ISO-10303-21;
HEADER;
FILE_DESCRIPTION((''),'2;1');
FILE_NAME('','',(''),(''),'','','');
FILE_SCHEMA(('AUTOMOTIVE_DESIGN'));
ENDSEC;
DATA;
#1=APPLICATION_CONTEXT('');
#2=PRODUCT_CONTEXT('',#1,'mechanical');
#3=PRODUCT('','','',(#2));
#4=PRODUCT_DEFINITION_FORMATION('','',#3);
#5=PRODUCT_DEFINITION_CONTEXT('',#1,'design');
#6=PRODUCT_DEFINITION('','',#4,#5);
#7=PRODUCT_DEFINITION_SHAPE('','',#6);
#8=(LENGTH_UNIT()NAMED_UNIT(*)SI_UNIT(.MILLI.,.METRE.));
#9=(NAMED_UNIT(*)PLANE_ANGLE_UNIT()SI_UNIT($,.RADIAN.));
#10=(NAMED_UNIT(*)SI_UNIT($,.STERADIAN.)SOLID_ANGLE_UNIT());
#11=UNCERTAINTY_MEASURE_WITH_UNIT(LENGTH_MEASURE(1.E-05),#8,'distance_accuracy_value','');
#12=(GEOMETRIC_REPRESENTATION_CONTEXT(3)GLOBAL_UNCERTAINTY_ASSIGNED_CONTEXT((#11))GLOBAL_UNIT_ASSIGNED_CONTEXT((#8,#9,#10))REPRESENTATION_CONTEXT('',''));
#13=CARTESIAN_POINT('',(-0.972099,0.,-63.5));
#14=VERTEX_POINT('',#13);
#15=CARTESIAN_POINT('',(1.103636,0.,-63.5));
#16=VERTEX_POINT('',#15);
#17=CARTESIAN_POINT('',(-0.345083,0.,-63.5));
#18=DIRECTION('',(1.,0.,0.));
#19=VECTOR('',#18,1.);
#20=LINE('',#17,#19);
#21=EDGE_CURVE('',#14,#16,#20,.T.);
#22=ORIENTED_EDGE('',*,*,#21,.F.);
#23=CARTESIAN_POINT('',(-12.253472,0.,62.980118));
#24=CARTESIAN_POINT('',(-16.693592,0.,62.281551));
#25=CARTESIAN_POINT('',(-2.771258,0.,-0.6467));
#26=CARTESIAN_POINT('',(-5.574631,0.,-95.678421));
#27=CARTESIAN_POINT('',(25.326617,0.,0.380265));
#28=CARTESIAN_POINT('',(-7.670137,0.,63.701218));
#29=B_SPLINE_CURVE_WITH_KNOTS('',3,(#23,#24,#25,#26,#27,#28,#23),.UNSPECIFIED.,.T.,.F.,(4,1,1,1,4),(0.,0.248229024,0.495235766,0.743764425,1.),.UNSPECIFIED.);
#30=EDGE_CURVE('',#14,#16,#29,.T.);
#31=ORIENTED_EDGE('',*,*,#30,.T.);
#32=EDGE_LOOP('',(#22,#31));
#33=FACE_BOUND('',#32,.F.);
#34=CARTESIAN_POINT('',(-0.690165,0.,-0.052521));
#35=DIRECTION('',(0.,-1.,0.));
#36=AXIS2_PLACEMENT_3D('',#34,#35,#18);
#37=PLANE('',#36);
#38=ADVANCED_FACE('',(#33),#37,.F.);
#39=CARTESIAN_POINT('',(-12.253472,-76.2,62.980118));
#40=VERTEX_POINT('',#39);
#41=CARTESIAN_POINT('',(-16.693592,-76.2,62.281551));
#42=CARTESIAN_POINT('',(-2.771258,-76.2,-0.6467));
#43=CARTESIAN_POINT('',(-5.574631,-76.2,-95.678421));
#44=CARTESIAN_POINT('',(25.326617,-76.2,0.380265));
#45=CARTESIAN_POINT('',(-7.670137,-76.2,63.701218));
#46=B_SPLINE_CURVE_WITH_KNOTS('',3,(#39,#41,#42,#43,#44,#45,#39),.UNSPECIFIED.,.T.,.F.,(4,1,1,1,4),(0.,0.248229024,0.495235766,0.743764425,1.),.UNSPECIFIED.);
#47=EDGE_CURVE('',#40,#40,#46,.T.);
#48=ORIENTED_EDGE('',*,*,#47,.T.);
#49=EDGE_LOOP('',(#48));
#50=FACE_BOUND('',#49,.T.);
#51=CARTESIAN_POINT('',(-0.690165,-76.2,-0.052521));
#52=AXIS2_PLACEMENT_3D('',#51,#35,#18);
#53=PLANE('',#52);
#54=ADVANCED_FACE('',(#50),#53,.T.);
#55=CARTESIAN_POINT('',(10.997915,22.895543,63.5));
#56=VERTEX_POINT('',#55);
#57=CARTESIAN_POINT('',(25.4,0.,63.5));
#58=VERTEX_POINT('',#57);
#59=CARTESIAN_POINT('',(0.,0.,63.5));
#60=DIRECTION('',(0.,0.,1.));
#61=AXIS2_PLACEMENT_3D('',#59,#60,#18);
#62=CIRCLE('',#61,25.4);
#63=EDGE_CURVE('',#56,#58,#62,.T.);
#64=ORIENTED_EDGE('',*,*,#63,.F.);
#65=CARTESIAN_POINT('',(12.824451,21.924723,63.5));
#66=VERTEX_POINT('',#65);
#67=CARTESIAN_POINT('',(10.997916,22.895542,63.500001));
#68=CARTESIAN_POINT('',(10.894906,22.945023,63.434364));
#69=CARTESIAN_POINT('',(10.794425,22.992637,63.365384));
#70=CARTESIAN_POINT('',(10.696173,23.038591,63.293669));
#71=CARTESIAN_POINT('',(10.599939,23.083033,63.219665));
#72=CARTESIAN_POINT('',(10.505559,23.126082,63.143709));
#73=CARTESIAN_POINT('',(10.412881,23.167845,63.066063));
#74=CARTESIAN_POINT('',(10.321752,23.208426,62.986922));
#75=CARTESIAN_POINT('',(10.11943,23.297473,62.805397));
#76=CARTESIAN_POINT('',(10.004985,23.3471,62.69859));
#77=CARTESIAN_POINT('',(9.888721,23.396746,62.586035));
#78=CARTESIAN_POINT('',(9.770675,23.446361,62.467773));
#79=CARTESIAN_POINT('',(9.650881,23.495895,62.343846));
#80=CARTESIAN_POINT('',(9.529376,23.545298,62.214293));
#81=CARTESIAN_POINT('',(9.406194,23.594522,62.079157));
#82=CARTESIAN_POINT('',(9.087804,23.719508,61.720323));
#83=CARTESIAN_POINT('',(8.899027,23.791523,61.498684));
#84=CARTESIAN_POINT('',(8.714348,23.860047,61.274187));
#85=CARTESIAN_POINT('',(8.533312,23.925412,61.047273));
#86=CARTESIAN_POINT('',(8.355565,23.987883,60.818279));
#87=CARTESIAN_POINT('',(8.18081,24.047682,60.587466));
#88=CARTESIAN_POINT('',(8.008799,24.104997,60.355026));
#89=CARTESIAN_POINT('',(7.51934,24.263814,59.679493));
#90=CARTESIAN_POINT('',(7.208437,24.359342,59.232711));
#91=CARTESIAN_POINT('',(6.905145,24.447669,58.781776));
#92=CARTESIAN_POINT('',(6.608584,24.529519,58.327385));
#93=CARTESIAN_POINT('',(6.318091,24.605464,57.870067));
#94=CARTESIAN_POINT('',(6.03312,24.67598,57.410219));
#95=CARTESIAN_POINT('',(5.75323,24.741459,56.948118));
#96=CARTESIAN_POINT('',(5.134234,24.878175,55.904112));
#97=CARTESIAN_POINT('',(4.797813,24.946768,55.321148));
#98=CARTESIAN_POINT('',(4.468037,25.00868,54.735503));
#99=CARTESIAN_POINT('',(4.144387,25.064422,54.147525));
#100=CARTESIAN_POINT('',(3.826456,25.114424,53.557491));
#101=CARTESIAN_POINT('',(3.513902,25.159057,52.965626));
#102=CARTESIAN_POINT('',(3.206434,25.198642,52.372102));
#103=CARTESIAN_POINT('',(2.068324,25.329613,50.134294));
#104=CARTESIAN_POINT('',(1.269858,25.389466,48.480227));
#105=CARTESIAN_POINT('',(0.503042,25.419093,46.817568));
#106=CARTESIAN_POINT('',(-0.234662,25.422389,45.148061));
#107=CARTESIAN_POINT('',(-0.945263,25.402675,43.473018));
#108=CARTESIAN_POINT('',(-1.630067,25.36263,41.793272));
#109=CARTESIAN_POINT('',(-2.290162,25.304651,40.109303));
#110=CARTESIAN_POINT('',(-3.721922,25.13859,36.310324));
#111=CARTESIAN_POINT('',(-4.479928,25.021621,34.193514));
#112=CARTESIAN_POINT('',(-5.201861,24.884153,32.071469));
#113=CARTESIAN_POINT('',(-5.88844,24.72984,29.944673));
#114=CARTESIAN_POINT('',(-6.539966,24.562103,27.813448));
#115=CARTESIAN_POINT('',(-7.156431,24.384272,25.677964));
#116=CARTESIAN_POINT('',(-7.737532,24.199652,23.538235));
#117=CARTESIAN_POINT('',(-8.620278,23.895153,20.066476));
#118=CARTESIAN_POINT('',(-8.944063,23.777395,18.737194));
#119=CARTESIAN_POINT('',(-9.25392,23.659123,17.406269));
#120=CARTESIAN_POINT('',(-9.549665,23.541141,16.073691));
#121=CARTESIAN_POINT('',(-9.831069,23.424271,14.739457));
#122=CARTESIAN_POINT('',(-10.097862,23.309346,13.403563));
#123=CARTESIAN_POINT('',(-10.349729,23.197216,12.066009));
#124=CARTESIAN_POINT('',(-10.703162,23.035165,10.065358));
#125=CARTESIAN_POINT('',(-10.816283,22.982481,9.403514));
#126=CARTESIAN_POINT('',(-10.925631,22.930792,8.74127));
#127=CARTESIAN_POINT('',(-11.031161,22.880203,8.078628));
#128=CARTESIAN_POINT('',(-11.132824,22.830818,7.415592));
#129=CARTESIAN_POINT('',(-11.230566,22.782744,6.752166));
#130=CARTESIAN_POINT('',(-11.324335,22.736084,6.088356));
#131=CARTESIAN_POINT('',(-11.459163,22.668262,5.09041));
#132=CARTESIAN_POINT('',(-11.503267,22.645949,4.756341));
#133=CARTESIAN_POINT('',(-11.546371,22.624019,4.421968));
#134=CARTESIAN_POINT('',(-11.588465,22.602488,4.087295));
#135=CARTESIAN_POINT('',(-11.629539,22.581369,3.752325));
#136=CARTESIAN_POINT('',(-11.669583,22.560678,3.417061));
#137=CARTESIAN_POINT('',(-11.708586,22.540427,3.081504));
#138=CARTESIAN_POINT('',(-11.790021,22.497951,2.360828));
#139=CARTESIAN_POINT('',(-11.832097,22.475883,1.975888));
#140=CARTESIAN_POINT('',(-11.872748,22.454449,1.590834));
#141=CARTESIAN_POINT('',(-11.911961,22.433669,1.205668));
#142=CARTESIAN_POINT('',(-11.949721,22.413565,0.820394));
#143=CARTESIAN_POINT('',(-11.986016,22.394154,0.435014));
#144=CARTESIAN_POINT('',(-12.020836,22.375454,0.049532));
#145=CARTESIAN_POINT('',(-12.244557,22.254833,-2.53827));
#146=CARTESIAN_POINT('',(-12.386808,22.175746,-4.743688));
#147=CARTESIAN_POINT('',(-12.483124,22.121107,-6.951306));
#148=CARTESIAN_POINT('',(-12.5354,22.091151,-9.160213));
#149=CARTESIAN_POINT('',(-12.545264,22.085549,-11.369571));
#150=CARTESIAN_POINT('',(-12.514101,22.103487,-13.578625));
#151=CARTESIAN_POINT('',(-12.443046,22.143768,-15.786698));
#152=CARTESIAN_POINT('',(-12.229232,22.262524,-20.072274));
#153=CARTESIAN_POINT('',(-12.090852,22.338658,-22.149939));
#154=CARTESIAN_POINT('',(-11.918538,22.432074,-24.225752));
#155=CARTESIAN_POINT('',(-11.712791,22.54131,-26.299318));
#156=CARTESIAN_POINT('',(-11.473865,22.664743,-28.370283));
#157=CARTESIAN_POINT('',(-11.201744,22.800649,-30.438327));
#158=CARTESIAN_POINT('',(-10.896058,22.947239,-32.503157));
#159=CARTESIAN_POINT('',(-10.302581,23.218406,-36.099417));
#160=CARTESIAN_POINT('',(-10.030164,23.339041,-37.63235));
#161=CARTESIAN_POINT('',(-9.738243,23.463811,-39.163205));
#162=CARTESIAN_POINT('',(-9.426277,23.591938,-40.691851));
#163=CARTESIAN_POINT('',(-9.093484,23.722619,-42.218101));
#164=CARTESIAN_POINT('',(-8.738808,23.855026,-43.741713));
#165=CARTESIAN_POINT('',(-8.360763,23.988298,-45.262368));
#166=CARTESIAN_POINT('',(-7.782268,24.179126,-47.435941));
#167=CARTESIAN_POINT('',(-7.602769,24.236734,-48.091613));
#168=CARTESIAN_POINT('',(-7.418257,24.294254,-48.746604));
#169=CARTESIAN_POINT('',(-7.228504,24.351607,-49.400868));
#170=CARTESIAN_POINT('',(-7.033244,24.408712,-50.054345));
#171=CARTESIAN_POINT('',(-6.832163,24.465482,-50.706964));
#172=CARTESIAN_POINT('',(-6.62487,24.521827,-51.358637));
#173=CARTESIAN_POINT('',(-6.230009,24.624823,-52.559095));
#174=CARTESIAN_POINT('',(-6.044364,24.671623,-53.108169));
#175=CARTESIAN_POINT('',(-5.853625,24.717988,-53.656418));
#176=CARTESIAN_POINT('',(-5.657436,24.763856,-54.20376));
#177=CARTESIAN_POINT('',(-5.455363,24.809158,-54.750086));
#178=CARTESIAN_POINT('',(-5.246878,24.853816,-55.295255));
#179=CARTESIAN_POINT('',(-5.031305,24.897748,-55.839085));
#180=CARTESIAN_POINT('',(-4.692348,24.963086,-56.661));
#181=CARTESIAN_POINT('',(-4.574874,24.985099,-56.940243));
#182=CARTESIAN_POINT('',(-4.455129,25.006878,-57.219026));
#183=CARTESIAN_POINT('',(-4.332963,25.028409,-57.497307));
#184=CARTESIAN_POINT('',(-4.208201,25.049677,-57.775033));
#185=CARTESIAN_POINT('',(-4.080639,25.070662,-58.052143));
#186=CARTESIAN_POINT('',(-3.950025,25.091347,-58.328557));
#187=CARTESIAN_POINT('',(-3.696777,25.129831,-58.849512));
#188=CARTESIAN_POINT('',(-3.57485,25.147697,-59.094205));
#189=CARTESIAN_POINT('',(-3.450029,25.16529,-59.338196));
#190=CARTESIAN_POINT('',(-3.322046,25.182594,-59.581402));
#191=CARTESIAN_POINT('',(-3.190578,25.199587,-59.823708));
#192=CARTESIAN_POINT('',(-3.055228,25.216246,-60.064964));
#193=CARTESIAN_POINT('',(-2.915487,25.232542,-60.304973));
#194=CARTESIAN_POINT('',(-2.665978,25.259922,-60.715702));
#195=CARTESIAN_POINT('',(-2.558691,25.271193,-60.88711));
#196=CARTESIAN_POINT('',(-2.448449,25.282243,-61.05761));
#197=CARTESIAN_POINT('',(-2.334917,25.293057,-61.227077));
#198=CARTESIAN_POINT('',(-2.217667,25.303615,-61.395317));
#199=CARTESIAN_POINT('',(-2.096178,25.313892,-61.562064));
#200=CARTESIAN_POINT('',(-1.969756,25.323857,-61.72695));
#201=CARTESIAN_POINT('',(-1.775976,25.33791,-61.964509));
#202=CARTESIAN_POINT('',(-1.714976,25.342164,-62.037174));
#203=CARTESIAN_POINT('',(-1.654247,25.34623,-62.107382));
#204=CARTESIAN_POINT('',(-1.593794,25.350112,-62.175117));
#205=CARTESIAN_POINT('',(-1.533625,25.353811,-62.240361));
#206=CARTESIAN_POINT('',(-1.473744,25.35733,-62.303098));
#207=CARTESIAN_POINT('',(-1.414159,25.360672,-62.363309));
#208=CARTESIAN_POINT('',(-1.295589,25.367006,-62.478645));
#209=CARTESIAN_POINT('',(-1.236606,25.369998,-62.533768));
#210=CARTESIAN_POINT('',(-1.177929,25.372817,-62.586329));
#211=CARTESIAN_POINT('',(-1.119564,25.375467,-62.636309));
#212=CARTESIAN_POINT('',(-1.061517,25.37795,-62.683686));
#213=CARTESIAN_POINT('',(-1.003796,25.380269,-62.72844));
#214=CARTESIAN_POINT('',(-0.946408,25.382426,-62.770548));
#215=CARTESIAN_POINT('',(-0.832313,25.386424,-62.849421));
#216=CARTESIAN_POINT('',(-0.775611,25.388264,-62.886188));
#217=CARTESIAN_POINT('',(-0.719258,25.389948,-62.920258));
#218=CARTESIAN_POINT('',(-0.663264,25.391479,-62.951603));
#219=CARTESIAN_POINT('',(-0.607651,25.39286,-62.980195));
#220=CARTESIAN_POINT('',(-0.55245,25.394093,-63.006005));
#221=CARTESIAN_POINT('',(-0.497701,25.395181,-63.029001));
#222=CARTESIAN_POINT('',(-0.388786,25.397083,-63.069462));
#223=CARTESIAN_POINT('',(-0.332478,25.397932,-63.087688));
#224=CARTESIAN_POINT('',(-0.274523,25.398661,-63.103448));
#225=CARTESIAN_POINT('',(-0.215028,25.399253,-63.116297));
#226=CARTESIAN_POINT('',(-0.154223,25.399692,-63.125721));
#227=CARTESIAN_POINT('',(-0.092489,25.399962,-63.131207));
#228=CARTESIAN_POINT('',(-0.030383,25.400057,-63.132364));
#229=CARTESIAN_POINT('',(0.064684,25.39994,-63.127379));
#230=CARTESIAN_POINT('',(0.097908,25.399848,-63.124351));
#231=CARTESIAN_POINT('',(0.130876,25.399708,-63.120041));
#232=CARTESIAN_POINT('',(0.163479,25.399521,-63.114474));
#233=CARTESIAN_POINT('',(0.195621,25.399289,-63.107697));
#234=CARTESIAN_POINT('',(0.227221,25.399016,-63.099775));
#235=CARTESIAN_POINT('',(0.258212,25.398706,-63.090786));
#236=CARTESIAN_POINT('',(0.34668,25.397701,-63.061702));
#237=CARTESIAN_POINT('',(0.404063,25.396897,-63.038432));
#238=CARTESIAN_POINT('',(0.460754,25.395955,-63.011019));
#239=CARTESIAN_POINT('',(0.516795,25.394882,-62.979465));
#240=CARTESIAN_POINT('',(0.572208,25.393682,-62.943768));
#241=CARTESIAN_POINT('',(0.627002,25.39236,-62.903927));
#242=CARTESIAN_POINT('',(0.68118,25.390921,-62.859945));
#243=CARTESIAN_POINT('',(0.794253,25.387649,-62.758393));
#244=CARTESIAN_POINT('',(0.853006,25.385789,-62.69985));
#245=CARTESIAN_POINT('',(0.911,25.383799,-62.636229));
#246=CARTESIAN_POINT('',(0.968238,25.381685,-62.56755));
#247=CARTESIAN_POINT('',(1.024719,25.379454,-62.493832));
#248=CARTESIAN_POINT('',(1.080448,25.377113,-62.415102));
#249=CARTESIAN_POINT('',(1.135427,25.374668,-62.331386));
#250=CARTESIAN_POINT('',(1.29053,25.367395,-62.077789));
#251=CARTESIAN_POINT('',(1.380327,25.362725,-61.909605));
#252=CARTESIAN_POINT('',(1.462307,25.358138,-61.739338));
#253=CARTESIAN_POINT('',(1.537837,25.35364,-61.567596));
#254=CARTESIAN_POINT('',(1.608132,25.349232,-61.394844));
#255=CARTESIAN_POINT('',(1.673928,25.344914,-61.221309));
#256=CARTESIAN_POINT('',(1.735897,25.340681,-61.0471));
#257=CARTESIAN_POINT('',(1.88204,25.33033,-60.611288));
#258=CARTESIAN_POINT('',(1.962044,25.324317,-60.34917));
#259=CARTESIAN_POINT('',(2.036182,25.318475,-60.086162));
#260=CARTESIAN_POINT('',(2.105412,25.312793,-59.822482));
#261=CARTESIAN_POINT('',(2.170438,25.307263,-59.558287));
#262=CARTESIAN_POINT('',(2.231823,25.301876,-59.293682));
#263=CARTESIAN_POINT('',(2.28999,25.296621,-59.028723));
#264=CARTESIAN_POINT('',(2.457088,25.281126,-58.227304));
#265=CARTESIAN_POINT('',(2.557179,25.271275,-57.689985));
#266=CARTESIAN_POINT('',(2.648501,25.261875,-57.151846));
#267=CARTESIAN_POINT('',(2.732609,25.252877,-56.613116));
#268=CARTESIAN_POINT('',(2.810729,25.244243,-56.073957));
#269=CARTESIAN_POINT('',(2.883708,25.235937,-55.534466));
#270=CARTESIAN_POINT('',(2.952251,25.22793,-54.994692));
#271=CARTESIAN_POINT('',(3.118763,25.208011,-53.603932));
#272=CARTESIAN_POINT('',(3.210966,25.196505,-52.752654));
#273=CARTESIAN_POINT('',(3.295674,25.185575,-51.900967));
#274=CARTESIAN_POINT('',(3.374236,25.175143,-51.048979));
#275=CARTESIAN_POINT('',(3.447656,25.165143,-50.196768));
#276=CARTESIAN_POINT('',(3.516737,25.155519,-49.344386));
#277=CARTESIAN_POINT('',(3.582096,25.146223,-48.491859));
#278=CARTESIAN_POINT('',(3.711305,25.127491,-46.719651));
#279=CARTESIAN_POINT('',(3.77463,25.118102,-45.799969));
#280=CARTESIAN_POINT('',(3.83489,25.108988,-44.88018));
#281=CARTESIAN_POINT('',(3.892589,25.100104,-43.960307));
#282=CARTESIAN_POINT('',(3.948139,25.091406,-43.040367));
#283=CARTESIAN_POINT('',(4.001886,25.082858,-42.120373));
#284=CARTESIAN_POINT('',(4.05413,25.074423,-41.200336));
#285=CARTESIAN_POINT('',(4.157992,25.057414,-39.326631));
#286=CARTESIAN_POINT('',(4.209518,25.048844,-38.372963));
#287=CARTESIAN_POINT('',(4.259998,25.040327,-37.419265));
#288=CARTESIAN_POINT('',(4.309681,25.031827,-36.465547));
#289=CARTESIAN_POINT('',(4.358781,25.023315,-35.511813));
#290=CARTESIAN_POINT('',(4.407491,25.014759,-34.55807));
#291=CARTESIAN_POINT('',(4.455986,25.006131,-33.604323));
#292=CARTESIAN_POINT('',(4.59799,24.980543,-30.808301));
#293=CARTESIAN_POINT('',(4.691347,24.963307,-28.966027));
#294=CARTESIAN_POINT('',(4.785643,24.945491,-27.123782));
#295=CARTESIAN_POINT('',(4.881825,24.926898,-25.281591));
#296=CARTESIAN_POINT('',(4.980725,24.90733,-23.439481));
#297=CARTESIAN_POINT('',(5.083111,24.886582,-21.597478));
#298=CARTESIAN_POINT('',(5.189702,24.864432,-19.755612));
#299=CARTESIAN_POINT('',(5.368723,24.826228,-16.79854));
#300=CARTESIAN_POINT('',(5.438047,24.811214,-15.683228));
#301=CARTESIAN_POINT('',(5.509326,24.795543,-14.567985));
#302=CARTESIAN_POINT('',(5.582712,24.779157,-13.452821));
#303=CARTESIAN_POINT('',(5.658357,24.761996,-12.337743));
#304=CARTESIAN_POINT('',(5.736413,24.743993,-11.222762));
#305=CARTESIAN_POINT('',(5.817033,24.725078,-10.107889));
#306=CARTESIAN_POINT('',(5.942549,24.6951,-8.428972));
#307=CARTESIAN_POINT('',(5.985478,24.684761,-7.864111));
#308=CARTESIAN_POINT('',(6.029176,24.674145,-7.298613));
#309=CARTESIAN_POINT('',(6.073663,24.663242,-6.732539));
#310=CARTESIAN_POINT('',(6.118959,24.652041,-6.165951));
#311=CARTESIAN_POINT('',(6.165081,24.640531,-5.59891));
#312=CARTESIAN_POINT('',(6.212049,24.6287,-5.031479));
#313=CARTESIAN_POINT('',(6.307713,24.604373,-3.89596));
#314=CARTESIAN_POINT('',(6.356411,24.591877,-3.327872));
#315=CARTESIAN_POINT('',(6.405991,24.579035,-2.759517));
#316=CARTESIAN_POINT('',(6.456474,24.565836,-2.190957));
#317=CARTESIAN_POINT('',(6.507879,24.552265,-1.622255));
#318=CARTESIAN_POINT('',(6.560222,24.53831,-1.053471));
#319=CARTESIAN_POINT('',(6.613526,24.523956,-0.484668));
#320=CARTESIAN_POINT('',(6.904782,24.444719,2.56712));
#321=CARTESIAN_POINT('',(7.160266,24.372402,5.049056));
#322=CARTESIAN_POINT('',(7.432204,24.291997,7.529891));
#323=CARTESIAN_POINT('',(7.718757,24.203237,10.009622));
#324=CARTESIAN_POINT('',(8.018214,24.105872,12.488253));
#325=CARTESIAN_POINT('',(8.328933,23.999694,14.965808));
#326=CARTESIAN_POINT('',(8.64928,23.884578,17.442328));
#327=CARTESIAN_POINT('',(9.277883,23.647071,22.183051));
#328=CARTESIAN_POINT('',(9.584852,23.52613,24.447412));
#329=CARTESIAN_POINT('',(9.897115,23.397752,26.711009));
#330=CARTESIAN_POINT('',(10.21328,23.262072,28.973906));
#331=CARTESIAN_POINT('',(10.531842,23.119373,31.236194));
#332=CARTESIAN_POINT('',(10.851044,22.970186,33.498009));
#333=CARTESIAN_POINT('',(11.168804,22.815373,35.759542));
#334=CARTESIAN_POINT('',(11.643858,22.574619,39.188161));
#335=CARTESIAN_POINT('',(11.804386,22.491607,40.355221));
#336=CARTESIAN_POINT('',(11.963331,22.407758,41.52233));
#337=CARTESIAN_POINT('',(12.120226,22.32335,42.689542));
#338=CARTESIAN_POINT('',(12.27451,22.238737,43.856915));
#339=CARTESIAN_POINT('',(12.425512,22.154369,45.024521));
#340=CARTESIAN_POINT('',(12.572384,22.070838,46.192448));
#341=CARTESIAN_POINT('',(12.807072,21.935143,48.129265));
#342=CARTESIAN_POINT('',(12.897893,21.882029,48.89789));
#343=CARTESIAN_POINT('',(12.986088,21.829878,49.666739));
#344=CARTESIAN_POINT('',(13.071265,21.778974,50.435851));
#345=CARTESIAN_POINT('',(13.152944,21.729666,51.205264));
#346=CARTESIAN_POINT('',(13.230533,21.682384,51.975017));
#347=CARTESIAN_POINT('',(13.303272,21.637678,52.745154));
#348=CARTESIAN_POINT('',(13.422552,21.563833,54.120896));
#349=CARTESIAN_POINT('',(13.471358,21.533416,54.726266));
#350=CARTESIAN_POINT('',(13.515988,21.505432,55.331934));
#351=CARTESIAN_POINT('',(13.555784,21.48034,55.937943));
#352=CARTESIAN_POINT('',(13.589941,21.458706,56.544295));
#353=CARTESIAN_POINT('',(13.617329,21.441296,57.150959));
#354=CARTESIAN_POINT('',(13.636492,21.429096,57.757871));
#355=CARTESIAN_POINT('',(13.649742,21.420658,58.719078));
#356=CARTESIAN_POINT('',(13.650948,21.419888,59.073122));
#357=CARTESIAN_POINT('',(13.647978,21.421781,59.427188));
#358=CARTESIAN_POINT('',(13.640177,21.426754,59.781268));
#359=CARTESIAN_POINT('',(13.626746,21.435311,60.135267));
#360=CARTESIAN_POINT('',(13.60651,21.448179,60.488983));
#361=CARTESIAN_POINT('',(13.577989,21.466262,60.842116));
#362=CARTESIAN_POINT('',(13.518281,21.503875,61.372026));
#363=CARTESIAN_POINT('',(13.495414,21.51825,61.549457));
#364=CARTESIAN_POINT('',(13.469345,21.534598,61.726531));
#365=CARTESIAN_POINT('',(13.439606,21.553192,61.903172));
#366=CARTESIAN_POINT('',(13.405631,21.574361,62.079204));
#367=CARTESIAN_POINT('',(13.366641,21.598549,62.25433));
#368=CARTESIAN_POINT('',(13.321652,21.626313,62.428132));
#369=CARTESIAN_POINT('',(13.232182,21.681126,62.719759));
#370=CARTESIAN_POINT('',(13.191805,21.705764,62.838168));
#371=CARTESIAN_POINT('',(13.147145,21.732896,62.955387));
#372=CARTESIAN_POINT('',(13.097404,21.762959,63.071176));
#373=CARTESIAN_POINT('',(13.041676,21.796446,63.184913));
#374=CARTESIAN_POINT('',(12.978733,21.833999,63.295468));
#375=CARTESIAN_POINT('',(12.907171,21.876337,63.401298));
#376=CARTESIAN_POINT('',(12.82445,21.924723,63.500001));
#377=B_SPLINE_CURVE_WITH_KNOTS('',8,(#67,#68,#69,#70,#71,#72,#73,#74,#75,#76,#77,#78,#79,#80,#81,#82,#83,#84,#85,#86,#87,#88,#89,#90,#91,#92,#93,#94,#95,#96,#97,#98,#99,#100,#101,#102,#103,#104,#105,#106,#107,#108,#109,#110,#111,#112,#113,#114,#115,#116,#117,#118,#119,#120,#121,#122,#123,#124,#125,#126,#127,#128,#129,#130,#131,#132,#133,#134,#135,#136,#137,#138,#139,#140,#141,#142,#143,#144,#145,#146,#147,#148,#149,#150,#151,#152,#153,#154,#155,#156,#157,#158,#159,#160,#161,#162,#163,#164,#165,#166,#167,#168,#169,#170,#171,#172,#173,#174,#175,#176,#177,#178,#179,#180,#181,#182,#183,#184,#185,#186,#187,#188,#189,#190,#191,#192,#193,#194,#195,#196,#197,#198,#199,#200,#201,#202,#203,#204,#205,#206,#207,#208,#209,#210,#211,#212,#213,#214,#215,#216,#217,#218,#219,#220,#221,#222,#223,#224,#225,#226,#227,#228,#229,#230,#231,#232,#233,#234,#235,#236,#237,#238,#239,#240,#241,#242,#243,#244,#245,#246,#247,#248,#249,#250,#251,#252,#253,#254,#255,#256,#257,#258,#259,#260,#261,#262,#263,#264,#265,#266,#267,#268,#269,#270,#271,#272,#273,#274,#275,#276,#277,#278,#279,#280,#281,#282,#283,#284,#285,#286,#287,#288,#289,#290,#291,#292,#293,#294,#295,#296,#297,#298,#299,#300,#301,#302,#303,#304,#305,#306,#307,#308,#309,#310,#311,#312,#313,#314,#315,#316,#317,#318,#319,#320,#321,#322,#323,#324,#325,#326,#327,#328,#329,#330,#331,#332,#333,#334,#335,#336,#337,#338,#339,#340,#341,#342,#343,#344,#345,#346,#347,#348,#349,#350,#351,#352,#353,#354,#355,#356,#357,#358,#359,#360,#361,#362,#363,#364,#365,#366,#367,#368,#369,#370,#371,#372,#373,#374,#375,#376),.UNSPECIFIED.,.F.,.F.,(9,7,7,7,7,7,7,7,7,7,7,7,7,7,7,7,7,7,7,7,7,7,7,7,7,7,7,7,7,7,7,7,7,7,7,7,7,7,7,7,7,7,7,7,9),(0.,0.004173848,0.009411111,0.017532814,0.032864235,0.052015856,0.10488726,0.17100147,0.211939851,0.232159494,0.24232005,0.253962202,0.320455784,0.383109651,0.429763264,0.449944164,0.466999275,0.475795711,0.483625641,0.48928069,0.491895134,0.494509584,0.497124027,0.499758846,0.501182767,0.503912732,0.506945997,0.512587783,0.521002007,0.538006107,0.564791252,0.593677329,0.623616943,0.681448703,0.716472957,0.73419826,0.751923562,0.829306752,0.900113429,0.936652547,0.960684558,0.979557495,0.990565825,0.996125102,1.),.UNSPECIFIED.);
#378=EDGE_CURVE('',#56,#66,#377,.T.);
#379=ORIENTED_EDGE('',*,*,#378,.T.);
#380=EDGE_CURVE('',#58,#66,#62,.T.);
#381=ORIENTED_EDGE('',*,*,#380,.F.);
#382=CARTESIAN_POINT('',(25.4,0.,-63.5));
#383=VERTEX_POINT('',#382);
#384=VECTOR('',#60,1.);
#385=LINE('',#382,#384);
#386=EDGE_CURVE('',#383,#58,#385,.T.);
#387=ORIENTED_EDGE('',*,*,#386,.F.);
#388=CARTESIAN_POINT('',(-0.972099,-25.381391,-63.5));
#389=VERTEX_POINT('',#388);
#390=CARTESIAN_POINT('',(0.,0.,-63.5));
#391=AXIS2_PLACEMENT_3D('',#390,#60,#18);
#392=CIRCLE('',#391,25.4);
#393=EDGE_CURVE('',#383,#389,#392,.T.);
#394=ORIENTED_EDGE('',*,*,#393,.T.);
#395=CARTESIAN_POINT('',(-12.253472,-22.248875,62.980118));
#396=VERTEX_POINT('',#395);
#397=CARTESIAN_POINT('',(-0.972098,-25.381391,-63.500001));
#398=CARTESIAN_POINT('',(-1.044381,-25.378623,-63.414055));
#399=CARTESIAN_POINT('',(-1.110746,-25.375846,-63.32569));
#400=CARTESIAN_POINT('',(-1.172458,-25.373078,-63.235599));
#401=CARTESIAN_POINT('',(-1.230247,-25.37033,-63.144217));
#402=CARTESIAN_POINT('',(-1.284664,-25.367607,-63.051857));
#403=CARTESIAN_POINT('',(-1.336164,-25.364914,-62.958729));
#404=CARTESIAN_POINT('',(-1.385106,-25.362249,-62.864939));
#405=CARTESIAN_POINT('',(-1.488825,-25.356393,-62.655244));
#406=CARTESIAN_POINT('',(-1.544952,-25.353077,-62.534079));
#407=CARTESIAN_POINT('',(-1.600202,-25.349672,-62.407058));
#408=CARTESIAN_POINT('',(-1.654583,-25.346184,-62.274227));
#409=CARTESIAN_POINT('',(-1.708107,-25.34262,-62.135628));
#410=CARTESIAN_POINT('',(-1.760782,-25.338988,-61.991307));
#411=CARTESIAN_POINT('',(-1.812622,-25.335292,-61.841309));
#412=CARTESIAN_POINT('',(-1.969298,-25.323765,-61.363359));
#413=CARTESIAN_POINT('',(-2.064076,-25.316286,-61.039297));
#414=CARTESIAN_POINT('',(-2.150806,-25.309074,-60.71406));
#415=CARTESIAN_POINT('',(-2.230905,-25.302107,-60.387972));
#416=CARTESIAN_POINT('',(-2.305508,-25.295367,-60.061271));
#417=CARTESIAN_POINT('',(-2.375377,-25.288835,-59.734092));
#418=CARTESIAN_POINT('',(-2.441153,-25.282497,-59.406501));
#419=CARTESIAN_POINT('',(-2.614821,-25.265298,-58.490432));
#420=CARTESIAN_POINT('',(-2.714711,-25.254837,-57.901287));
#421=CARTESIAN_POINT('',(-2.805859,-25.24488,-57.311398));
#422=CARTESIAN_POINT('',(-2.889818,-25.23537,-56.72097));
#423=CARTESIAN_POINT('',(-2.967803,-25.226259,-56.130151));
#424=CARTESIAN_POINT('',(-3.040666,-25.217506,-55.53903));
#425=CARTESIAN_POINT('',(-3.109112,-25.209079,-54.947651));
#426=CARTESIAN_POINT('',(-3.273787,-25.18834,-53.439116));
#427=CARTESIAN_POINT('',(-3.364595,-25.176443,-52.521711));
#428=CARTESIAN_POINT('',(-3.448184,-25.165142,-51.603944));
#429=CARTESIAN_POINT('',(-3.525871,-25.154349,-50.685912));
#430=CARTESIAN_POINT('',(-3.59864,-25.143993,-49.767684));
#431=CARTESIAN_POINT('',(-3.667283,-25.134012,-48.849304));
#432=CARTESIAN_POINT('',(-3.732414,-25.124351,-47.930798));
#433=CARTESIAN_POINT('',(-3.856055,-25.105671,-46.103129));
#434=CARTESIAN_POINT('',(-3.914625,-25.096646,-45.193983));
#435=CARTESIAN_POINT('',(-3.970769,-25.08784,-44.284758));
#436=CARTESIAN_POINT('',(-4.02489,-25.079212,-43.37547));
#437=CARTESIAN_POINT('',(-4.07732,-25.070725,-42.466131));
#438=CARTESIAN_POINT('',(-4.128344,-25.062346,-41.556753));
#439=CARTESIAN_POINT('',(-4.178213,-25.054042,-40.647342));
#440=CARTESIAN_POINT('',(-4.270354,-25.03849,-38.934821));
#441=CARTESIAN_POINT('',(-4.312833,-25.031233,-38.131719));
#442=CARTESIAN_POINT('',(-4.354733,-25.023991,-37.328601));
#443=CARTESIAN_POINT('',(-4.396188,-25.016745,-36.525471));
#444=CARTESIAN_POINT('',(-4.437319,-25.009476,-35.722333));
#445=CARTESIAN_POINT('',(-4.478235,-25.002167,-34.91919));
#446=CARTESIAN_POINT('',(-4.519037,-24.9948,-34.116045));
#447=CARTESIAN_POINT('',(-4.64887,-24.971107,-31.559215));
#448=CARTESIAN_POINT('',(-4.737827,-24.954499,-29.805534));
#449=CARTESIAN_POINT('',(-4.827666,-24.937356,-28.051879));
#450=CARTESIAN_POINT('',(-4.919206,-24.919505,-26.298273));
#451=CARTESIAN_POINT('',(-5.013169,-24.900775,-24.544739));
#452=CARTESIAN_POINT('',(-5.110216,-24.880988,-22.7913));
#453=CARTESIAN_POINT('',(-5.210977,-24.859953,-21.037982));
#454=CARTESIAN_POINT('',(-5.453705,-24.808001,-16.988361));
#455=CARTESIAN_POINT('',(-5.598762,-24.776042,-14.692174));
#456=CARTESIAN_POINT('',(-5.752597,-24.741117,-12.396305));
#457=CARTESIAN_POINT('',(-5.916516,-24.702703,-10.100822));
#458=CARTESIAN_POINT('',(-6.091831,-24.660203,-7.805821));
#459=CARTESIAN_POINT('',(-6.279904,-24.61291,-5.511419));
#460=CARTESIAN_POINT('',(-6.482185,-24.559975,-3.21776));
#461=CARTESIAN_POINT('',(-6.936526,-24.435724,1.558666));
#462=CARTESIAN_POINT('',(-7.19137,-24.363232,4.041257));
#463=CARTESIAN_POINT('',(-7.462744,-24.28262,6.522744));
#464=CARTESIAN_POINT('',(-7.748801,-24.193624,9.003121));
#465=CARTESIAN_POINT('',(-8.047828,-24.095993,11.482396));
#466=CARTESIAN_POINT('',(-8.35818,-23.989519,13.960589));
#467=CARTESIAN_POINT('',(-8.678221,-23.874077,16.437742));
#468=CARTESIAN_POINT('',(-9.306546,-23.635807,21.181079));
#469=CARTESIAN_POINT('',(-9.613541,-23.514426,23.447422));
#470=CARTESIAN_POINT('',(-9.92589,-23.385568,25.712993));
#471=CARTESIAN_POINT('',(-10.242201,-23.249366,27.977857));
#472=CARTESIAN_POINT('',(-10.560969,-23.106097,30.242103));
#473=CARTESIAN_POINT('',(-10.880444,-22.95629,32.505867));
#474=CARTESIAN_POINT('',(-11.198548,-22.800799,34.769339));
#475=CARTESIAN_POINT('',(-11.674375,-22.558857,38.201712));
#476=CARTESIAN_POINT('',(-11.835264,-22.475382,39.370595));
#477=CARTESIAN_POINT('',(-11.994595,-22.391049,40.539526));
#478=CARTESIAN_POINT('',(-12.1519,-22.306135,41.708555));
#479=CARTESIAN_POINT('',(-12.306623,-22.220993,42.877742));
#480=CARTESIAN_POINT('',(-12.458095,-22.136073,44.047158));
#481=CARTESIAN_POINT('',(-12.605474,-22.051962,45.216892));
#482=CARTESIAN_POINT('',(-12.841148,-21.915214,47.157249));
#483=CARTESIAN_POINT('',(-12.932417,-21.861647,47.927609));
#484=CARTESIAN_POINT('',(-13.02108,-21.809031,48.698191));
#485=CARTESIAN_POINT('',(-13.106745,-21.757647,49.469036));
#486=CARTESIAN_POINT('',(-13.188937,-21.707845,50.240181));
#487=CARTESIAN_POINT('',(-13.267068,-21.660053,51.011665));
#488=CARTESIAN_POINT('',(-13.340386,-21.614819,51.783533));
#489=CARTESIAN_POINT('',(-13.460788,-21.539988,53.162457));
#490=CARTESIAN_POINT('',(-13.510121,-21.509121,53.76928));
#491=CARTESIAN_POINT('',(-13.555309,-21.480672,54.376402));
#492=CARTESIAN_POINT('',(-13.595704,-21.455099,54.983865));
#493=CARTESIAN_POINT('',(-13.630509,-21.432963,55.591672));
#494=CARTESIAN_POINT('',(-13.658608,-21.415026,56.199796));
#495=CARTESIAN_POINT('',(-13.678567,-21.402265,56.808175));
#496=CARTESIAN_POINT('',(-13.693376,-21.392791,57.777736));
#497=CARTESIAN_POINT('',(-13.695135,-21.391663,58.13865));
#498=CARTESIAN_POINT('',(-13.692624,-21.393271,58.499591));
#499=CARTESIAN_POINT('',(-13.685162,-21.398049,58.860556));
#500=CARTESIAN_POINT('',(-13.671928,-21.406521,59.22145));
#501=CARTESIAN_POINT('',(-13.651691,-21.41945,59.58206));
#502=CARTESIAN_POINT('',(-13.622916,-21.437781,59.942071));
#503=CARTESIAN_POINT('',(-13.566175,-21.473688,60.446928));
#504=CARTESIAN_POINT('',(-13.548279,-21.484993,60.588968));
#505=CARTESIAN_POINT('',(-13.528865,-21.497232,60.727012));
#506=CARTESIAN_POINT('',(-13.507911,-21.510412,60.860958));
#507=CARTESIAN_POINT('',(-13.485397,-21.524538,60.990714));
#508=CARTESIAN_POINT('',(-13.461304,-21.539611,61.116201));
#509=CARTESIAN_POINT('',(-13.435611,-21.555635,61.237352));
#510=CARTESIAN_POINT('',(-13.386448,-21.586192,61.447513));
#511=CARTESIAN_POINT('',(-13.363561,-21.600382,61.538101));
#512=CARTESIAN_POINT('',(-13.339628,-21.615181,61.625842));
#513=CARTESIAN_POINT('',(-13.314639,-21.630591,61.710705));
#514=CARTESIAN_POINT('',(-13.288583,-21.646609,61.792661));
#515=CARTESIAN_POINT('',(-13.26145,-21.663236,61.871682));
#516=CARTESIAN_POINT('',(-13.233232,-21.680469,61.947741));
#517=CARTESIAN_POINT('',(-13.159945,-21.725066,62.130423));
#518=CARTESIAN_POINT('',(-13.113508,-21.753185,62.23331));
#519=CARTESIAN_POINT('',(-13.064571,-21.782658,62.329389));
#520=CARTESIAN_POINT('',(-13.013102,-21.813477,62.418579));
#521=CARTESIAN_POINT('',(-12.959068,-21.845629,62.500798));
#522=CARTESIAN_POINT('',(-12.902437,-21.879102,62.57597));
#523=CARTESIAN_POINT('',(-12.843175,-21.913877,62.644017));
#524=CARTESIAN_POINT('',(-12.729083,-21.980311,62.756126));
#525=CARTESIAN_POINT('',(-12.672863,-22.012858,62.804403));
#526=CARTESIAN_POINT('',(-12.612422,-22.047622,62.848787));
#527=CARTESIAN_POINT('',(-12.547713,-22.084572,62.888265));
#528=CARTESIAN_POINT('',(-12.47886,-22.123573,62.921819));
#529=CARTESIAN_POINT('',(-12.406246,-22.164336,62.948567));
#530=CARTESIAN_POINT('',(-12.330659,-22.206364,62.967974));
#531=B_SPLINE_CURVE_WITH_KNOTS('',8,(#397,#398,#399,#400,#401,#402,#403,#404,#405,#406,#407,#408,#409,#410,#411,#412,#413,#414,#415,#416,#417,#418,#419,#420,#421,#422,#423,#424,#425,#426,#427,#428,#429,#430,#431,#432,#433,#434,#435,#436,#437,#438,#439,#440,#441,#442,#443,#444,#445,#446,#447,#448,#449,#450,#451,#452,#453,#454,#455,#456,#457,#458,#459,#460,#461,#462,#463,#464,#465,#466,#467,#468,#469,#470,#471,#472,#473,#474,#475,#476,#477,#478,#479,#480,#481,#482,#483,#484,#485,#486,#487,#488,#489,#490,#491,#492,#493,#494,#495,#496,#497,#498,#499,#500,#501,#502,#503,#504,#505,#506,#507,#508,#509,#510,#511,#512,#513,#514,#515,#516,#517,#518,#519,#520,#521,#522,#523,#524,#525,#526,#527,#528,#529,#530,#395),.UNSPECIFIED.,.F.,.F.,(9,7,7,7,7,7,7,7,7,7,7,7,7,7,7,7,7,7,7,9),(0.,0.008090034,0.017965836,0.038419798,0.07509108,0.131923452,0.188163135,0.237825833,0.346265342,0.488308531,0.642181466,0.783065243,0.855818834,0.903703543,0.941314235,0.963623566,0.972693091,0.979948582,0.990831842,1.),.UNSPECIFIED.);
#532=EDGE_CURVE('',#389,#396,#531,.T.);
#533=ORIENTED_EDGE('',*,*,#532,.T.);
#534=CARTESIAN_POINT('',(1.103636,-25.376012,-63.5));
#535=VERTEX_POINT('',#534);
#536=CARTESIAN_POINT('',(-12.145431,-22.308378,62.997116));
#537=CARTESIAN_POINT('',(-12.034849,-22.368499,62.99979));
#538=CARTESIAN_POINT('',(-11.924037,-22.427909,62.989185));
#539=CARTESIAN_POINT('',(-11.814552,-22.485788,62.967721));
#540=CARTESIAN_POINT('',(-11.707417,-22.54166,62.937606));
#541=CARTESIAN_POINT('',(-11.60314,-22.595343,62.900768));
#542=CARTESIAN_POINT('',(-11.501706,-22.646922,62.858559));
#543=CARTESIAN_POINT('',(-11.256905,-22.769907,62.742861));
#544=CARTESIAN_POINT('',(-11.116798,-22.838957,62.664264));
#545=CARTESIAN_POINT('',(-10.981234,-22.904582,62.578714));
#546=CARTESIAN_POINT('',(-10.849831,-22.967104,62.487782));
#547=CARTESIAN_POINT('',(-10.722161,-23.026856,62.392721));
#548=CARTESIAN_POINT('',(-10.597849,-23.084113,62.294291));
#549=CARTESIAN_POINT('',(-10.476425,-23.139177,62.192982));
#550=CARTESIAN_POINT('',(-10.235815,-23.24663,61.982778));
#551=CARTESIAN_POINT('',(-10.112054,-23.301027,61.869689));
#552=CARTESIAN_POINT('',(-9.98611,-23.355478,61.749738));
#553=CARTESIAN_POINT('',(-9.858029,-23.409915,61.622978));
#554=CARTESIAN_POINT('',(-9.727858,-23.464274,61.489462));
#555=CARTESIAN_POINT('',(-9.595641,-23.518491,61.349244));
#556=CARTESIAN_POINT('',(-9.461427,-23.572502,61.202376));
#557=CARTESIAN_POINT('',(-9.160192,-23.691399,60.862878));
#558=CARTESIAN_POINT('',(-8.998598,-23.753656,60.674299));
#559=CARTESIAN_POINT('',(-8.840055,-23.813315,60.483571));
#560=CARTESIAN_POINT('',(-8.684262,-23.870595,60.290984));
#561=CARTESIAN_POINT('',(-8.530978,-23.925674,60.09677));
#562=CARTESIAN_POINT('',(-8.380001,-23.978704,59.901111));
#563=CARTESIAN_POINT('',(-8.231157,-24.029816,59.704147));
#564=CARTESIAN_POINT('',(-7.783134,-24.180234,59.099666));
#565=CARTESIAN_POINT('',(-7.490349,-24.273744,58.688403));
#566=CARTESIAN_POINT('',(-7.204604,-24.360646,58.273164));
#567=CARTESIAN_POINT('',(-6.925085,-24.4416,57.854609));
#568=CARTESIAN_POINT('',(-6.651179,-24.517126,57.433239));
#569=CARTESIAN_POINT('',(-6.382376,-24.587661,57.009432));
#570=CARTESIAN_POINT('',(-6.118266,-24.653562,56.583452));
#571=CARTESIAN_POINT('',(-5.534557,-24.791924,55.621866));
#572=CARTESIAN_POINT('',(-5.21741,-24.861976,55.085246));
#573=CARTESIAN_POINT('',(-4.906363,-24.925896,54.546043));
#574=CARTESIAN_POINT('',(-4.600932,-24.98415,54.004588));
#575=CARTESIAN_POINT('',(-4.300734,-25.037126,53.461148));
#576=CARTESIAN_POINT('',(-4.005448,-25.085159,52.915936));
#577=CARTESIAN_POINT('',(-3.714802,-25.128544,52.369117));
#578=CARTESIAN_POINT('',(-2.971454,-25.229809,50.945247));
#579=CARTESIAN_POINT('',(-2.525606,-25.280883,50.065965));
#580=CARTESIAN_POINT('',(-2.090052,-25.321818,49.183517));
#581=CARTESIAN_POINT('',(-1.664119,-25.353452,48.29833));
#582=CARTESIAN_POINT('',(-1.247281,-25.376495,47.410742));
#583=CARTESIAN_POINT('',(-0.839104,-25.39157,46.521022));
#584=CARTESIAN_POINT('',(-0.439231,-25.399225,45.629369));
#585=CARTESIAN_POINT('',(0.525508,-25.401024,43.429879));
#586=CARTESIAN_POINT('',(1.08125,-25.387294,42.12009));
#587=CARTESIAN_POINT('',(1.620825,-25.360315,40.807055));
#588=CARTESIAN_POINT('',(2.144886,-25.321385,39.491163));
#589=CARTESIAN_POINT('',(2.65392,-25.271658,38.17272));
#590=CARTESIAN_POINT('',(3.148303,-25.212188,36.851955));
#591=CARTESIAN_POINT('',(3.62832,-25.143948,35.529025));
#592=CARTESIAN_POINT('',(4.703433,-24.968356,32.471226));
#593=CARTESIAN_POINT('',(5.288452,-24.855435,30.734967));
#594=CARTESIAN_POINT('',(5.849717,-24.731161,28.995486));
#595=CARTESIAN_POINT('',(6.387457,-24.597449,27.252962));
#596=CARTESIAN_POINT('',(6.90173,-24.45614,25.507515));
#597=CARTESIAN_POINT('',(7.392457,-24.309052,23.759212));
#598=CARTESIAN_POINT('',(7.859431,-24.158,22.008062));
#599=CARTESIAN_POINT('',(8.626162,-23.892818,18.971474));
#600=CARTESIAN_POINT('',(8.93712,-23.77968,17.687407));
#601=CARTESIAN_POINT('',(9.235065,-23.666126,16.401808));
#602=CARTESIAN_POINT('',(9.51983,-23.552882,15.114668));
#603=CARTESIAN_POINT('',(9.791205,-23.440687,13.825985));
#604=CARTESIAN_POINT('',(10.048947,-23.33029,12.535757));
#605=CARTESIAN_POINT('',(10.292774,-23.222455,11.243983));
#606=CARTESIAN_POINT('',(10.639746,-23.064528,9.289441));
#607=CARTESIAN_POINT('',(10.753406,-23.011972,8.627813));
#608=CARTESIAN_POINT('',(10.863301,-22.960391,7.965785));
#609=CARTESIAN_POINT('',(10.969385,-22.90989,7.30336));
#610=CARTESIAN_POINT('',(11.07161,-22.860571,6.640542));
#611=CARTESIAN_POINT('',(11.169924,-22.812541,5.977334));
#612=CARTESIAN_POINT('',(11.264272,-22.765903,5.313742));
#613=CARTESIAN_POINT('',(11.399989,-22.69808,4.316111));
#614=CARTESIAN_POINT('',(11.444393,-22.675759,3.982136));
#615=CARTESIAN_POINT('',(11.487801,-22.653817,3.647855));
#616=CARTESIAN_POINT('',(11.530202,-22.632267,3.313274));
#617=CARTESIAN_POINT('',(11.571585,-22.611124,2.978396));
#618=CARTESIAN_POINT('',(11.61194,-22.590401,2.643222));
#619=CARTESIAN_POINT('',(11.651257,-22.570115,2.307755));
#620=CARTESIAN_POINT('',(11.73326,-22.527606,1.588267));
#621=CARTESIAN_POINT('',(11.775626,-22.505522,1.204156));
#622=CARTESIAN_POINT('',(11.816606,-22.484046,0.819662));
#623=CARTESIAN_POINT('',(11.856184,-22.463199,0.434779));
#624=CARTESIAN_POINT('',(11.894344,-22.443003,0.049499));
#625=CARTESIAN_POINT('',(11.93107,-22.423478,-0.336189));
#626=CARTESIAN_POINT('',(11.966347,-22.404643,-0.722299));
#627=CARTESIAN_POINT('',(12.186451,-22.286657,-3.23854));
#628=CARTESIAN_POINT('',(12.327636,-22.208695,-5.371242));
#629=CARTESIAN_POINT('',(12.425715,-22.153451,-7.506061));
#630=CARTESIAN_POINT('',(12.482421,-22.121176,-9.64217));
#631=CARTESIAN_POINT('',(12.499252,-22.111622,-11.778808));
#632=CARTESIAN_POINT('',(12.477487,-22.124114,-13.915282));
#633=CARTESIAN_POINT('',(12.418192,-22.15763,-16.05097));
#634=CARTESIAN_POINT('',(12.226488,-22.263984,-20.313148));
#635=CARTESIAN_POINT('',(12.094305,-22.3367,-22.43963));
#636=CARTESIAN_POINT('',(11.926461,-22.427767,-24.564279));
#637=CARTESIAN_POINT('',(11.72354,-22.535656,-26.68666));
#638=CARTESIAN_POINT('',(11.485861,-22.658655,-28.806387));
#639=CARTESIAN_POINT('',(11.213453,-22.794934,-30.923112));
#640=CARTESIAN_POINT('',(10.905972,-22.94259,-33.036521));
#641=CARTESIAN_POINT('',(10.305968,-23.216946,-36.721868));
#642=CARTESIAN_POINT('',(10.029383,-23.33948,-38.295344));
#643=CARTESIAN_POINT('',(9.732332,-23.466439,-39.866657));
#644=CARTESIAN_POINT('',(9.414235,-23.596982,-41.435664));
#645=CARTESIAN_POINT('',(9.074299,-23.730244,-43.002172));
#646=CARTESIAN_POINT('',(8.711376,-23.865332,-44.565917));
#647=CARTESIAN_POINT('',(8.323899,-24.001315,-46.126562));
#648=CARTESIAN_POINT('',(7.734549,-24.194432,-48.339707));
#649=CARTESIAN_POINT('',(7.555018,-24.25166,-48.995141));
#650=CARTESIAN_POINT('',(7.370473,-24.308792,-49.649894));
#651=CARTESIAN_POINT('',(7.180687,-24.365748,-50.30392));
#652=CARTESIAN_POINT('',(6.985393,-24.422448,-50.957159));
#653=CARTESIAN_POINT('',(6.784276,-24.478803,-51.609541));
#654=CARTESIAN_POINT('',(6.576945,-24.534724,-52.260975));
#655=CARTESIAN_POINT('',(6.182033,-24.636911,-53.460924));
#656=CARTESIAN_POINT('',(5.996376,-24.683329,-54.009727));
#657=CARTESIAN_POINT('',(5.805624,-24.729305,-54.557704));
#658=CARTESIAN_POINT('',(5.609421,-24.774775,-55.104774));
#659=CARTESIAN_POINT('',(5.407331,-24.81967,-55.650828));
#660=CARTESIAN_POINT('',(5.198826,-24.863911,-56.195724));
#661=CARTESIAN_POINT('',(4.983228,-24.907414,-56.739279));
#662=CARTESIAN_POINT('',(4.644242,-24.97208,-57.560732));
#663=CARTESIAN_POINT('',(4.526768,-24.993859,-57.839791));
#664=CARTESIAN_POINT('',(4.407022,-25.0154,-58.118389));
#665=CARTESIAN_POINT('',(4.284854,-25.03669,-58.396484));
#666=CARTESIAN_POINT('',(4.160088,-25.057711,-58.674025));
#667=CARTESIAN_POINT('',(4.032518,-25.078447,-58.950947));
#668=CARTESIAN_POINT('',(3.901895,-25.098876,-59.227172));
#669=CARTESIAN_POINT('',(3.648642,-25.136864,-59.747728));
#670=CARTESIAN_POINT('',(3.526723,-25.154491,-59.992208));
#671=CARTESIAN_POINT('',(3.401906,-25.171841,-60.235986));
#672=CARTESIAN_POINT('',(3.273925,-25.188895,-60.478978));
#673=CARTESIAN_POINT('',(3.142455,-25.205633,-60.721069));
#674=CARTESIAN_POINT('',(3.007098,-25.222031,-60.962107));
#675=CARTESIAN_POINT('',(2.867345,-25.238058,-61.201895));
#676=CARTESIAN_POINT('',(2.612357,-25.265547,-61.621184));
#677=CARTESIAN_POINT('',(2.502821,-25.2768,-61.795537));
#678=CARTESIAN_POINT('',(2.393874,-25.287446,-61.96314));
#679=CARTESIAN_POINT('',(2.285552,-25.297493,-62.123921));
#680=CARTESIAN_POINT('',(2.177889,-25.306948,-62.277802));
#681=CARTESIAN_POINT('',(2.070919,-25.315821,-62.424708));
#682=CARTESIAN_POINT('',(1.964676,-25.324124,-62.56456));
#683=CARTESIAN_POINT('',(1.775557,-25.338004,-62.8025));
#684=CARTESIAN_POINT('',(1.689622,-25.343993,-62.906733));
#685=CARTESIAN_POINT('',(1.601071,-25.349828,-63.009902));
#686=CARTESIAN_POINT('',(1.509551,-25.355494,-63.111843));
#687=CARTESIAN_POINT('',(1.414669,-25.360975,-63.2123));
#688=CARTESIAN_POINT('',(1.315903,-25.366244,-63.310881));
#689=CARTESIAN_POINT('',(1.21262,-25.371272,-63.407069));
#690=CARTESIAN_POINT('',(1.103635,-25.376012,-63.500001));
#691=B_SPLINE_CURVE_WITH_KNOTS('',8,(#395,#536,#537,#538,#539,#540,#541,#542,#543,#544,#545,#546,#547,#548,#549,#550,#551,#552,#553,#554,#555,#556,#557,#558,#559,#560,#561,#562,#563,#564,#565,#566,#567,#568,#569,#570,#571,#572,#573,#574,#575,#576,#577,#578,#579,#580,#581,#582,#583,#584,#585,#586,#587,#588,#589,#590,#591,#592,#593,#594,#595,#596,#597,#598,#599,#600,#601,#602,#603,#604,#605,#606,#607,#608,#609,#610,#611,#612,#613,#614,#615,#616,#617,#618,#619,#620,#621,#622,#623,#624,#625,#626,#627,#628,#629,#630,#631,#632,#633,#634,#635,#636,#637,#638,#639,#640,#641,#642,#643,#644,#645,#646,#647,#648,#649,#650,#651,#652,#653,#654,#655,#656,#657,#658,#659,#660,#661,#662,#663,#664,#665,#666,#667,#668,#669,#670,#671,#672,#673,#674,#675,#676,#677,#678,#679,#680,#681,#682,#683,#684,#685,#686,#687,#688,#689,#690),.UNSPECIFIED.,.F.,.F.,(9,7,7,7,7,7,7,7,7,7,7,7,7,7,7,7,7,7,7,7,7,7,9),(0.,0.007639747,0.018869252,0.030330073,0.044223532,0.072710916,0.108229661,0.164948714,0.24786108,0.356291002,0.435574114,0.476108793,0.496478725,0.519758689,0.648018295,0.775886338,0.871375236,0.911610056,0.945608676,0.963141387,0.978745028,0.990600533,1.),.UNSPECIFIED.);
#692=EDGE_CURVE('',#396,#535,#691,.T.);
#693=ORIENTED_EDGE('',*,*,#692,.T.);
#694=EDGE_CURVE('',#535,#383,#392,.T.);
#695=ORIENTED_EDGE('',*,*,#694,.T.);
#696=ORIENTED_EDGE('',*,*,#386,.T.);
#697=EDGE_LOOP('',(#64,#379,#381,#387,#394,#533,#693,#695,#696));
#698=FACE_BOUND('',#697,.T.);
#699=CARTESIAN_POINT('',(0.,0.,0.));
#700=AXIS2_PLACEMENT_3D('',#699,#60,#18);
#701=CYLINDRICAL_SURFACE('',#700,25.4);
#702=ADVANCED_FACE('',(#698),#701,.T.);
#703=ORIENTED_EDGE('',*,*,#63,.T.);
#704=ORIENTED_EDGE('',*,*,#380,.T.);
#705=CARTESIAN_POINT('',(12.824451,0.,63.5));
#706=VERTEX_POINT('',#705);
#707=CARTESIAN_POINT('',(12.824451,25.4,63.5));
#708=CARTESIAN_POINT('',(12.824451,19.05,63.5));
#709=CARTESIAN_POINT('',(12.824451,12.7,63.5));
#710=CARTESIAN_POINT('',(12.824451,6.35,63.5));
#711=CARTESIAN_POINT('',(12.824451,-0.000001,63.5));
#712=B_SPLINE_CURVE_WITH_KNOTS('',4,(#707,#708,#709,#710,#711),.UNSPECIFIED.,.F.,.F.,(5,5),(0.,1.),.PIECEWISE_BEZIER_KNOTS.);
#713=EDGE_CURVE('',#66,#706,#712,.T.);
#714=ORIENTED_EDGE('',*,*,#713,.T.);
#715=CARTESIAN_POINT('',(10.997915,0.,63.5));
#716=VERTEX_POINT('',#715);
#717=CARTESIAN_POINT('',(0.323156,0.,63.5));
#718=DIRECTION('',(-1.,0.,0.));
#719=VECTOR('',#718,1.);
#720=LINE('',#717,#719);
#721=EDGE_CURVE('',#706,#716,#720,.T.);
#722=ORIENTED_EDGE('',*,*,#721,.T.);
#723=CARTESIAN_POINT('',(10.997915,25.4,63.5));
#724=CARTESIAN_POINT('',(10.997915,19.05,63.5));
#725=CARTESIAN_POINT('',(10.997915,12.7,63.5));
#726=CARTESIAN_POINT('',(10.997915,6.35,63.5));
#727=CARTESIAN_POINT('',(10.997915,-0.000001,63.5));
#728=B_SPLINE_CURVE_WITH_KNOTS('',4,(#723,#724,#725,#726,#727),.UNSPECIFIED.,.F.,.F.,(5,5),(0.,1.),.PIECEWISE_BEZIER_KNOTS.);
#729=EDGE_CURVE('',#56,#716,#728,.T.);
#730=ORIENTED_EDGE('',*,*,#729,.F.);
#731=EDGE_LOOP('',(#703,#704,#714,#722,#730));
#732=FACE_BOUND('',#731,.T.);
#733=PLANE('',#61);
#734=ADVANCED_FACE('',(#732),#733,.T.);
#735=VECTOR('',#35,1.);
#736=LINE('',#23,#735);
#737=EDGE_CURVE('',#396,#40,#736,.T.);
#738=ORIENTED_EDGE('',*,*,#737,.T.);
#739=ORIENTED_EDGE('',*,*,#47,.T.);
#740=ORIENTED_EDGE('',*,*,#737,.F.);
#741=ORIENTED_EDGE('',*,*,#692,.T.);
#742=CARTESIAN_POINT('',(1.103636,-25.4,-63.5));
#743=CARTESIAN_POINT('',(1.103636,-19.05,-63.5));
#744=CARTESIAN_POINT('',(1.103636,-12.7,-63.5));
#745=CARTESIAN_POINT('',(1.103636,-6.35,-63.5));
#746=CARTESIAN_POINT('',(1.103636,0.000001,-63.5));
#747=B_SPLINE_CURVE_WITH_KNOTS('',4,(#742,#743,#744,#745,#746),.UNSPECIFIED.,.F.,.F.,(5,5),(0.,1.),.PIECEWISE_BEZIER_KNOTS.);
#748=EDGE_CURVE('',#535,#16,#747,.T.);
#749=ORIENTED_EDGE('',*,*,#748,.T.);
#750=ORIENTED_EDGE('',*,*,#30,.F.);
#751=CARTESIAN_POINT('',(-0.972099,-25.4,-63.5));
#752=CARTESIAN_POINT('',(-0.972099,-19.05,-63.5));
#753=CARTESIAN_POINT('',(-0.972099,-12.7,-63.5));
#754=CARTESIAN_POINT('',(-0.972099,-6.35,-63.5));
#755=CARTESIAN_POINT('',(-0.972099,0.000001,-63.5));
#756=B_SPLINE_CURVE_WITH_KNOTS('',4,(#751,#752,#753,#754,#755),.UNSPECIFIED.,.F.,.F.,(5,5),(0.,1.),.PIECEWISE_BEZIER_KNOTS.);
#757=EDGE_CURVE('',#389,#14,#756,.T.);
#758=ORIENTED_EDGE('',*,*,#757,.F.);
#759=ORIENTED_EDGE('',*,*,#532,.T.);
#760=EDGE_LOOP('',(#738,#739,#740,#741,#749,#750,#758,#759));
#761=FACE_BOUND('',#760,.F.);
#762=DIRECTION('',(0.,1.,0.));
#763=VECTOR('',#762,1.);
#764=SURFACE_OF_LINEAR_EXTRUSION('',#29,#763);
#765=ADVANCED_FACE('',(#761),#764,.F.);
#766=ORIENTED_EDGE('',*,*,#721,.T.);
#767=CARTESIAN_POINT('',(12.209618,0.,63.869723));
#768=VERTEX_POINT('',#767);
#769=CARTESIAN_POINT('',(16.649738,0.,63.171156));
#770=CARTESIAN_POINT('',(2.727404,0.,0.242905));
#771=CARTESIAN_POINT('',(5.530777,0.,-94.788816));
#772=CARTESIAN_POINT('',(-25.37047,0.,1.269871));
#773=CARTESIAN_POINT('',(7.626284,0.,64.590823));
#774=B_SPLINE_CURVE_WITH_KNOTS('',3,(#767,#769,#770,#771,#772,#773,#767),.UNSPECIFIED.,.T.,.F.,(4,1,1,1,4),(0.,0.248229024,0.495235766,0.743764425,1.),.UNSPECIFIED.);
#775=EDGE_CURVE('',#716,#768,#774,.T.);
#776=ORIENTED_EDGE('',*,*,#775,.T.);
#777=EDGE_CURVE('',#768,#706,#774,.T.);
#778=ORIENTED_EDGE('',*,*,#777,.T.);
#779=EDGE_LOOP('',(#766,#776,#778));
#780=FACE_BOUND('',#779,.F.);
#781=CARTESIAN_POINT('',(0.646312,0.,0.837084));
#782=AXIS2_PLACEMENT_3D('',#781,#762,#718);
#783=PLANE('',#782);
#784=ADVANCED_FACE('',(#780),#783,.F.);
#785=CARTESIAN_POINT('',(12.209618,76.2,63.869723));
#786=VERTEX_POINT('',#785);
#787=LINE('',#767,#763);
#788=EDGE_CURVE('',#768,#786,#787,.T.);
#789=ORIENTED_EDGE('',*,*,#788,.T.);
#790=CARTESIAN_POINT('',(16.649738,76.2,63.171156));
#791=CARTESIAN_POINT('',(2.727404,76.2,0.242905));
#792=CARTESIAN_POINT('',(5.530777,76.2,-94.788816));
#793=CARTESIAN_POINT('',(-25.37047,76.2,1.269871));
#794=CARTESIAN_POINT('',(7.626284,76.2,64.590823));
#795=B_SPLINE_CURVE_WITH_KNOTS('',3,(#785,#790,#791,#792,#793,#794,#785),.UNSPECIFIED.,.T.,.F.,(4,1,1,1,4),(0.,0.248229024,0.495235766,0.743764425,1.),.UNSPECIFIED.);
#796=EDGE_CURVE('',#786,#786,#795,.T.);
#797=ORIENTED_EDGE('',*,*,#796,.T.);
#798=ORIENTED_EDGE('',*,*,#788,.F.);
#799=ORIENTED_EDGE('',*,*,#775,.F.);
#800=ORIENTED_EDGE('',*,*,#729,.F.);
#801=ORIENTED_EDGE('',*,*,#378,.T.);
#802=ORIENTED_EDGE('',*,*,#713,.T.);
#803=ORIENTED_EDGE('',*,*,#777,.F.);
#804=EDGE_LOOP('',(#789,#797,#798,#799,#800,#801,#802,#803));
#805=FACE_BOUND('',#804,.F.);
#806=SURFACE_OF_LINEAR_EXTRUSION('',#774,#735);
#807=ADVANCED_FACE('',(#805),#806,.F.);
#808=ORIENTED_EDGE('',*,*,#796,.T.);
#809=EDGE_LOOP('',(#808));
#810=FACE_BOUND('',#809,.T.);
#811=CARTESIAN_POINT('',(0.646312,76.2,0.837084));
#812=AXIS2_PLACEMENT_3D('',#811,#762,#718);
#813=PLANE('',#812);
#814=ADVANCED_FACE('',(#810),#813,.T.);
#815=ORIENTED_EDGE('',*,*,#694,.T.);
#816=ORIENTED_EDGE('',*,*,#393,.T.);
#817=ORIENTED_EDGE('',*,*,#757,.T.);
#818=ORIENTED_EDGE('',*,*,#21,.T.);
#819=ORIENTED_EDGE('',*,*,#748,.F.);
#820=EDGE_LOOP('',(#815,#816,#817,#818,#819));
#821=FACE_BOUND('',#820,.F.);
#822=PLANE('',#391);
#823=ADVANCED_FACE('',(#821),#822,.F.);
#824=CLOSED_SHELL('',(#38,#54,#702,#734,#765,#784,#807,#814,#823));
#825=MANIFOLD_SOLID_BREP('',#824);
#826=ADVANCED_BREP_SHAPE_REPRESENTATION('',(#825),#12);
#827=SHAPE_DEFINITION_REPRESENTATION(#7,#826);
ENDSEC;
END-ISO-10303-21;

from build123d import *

# Parameters (mm, degrees)
F0_R     = 25.4
F1_DEPTH = 63.5
F3_DEPTH = 76.2
F5_DEPTH = 76.2


with BuildPart() as f1:
    # F0 (on Top) → F1 (new body, symmetric)
    with BuildSketch(Plane.XY):
        Circle(F0_R)
    extrude(amount=F1_DEPTH, both=True)

    # F2 (on Front) → F3 (join)
    with BuildSketch(Plane.XZ):
        with BuildLine():
            add(Edge.make_bspline(
                [(12.2096184641, 63.8697233594), (16.6497383952, 63.1711558384), (2.7274043199, 0.2429049392), (5.5307772535, -94.7888159247), (-25.3704704033, 1.2698705528), (7.6262838241, 64.5908229618), (12.2096184641, 63.8697233594)],
                knots=[0, 0, 0, 0, 0.2482290236, 0.4952357659, 0.7437644253, 1, 1, 1, 1], degree=3))
        make_face()
    extrude(amount=-F3_DEPTH)

    # F4 (on Front) → F5 (join)
    with BuildSketch(Plane.XZ):
        with BuildLine():
            add(Edge.make_bspline(
                [(-12.2534717744, 62.9801180998), (-16.6935917055, 62.2815505789), (-2.7712576302, -0.6467003203), (-5.5746305637, -95.6784211842), (25.3266170931, 0.3802652933), (-7.6701371343, 63.7012177023), (-12.2534717744, 62.9801180998)],
                knots=[0, 0, 0, 0, 0.2482290236, 0.4952357659, 0.7437644253, 1, 1, 1, 1], degree=3))
        make_face()
    extrude(amount=F5_DEPTH)


solid = f1.part
